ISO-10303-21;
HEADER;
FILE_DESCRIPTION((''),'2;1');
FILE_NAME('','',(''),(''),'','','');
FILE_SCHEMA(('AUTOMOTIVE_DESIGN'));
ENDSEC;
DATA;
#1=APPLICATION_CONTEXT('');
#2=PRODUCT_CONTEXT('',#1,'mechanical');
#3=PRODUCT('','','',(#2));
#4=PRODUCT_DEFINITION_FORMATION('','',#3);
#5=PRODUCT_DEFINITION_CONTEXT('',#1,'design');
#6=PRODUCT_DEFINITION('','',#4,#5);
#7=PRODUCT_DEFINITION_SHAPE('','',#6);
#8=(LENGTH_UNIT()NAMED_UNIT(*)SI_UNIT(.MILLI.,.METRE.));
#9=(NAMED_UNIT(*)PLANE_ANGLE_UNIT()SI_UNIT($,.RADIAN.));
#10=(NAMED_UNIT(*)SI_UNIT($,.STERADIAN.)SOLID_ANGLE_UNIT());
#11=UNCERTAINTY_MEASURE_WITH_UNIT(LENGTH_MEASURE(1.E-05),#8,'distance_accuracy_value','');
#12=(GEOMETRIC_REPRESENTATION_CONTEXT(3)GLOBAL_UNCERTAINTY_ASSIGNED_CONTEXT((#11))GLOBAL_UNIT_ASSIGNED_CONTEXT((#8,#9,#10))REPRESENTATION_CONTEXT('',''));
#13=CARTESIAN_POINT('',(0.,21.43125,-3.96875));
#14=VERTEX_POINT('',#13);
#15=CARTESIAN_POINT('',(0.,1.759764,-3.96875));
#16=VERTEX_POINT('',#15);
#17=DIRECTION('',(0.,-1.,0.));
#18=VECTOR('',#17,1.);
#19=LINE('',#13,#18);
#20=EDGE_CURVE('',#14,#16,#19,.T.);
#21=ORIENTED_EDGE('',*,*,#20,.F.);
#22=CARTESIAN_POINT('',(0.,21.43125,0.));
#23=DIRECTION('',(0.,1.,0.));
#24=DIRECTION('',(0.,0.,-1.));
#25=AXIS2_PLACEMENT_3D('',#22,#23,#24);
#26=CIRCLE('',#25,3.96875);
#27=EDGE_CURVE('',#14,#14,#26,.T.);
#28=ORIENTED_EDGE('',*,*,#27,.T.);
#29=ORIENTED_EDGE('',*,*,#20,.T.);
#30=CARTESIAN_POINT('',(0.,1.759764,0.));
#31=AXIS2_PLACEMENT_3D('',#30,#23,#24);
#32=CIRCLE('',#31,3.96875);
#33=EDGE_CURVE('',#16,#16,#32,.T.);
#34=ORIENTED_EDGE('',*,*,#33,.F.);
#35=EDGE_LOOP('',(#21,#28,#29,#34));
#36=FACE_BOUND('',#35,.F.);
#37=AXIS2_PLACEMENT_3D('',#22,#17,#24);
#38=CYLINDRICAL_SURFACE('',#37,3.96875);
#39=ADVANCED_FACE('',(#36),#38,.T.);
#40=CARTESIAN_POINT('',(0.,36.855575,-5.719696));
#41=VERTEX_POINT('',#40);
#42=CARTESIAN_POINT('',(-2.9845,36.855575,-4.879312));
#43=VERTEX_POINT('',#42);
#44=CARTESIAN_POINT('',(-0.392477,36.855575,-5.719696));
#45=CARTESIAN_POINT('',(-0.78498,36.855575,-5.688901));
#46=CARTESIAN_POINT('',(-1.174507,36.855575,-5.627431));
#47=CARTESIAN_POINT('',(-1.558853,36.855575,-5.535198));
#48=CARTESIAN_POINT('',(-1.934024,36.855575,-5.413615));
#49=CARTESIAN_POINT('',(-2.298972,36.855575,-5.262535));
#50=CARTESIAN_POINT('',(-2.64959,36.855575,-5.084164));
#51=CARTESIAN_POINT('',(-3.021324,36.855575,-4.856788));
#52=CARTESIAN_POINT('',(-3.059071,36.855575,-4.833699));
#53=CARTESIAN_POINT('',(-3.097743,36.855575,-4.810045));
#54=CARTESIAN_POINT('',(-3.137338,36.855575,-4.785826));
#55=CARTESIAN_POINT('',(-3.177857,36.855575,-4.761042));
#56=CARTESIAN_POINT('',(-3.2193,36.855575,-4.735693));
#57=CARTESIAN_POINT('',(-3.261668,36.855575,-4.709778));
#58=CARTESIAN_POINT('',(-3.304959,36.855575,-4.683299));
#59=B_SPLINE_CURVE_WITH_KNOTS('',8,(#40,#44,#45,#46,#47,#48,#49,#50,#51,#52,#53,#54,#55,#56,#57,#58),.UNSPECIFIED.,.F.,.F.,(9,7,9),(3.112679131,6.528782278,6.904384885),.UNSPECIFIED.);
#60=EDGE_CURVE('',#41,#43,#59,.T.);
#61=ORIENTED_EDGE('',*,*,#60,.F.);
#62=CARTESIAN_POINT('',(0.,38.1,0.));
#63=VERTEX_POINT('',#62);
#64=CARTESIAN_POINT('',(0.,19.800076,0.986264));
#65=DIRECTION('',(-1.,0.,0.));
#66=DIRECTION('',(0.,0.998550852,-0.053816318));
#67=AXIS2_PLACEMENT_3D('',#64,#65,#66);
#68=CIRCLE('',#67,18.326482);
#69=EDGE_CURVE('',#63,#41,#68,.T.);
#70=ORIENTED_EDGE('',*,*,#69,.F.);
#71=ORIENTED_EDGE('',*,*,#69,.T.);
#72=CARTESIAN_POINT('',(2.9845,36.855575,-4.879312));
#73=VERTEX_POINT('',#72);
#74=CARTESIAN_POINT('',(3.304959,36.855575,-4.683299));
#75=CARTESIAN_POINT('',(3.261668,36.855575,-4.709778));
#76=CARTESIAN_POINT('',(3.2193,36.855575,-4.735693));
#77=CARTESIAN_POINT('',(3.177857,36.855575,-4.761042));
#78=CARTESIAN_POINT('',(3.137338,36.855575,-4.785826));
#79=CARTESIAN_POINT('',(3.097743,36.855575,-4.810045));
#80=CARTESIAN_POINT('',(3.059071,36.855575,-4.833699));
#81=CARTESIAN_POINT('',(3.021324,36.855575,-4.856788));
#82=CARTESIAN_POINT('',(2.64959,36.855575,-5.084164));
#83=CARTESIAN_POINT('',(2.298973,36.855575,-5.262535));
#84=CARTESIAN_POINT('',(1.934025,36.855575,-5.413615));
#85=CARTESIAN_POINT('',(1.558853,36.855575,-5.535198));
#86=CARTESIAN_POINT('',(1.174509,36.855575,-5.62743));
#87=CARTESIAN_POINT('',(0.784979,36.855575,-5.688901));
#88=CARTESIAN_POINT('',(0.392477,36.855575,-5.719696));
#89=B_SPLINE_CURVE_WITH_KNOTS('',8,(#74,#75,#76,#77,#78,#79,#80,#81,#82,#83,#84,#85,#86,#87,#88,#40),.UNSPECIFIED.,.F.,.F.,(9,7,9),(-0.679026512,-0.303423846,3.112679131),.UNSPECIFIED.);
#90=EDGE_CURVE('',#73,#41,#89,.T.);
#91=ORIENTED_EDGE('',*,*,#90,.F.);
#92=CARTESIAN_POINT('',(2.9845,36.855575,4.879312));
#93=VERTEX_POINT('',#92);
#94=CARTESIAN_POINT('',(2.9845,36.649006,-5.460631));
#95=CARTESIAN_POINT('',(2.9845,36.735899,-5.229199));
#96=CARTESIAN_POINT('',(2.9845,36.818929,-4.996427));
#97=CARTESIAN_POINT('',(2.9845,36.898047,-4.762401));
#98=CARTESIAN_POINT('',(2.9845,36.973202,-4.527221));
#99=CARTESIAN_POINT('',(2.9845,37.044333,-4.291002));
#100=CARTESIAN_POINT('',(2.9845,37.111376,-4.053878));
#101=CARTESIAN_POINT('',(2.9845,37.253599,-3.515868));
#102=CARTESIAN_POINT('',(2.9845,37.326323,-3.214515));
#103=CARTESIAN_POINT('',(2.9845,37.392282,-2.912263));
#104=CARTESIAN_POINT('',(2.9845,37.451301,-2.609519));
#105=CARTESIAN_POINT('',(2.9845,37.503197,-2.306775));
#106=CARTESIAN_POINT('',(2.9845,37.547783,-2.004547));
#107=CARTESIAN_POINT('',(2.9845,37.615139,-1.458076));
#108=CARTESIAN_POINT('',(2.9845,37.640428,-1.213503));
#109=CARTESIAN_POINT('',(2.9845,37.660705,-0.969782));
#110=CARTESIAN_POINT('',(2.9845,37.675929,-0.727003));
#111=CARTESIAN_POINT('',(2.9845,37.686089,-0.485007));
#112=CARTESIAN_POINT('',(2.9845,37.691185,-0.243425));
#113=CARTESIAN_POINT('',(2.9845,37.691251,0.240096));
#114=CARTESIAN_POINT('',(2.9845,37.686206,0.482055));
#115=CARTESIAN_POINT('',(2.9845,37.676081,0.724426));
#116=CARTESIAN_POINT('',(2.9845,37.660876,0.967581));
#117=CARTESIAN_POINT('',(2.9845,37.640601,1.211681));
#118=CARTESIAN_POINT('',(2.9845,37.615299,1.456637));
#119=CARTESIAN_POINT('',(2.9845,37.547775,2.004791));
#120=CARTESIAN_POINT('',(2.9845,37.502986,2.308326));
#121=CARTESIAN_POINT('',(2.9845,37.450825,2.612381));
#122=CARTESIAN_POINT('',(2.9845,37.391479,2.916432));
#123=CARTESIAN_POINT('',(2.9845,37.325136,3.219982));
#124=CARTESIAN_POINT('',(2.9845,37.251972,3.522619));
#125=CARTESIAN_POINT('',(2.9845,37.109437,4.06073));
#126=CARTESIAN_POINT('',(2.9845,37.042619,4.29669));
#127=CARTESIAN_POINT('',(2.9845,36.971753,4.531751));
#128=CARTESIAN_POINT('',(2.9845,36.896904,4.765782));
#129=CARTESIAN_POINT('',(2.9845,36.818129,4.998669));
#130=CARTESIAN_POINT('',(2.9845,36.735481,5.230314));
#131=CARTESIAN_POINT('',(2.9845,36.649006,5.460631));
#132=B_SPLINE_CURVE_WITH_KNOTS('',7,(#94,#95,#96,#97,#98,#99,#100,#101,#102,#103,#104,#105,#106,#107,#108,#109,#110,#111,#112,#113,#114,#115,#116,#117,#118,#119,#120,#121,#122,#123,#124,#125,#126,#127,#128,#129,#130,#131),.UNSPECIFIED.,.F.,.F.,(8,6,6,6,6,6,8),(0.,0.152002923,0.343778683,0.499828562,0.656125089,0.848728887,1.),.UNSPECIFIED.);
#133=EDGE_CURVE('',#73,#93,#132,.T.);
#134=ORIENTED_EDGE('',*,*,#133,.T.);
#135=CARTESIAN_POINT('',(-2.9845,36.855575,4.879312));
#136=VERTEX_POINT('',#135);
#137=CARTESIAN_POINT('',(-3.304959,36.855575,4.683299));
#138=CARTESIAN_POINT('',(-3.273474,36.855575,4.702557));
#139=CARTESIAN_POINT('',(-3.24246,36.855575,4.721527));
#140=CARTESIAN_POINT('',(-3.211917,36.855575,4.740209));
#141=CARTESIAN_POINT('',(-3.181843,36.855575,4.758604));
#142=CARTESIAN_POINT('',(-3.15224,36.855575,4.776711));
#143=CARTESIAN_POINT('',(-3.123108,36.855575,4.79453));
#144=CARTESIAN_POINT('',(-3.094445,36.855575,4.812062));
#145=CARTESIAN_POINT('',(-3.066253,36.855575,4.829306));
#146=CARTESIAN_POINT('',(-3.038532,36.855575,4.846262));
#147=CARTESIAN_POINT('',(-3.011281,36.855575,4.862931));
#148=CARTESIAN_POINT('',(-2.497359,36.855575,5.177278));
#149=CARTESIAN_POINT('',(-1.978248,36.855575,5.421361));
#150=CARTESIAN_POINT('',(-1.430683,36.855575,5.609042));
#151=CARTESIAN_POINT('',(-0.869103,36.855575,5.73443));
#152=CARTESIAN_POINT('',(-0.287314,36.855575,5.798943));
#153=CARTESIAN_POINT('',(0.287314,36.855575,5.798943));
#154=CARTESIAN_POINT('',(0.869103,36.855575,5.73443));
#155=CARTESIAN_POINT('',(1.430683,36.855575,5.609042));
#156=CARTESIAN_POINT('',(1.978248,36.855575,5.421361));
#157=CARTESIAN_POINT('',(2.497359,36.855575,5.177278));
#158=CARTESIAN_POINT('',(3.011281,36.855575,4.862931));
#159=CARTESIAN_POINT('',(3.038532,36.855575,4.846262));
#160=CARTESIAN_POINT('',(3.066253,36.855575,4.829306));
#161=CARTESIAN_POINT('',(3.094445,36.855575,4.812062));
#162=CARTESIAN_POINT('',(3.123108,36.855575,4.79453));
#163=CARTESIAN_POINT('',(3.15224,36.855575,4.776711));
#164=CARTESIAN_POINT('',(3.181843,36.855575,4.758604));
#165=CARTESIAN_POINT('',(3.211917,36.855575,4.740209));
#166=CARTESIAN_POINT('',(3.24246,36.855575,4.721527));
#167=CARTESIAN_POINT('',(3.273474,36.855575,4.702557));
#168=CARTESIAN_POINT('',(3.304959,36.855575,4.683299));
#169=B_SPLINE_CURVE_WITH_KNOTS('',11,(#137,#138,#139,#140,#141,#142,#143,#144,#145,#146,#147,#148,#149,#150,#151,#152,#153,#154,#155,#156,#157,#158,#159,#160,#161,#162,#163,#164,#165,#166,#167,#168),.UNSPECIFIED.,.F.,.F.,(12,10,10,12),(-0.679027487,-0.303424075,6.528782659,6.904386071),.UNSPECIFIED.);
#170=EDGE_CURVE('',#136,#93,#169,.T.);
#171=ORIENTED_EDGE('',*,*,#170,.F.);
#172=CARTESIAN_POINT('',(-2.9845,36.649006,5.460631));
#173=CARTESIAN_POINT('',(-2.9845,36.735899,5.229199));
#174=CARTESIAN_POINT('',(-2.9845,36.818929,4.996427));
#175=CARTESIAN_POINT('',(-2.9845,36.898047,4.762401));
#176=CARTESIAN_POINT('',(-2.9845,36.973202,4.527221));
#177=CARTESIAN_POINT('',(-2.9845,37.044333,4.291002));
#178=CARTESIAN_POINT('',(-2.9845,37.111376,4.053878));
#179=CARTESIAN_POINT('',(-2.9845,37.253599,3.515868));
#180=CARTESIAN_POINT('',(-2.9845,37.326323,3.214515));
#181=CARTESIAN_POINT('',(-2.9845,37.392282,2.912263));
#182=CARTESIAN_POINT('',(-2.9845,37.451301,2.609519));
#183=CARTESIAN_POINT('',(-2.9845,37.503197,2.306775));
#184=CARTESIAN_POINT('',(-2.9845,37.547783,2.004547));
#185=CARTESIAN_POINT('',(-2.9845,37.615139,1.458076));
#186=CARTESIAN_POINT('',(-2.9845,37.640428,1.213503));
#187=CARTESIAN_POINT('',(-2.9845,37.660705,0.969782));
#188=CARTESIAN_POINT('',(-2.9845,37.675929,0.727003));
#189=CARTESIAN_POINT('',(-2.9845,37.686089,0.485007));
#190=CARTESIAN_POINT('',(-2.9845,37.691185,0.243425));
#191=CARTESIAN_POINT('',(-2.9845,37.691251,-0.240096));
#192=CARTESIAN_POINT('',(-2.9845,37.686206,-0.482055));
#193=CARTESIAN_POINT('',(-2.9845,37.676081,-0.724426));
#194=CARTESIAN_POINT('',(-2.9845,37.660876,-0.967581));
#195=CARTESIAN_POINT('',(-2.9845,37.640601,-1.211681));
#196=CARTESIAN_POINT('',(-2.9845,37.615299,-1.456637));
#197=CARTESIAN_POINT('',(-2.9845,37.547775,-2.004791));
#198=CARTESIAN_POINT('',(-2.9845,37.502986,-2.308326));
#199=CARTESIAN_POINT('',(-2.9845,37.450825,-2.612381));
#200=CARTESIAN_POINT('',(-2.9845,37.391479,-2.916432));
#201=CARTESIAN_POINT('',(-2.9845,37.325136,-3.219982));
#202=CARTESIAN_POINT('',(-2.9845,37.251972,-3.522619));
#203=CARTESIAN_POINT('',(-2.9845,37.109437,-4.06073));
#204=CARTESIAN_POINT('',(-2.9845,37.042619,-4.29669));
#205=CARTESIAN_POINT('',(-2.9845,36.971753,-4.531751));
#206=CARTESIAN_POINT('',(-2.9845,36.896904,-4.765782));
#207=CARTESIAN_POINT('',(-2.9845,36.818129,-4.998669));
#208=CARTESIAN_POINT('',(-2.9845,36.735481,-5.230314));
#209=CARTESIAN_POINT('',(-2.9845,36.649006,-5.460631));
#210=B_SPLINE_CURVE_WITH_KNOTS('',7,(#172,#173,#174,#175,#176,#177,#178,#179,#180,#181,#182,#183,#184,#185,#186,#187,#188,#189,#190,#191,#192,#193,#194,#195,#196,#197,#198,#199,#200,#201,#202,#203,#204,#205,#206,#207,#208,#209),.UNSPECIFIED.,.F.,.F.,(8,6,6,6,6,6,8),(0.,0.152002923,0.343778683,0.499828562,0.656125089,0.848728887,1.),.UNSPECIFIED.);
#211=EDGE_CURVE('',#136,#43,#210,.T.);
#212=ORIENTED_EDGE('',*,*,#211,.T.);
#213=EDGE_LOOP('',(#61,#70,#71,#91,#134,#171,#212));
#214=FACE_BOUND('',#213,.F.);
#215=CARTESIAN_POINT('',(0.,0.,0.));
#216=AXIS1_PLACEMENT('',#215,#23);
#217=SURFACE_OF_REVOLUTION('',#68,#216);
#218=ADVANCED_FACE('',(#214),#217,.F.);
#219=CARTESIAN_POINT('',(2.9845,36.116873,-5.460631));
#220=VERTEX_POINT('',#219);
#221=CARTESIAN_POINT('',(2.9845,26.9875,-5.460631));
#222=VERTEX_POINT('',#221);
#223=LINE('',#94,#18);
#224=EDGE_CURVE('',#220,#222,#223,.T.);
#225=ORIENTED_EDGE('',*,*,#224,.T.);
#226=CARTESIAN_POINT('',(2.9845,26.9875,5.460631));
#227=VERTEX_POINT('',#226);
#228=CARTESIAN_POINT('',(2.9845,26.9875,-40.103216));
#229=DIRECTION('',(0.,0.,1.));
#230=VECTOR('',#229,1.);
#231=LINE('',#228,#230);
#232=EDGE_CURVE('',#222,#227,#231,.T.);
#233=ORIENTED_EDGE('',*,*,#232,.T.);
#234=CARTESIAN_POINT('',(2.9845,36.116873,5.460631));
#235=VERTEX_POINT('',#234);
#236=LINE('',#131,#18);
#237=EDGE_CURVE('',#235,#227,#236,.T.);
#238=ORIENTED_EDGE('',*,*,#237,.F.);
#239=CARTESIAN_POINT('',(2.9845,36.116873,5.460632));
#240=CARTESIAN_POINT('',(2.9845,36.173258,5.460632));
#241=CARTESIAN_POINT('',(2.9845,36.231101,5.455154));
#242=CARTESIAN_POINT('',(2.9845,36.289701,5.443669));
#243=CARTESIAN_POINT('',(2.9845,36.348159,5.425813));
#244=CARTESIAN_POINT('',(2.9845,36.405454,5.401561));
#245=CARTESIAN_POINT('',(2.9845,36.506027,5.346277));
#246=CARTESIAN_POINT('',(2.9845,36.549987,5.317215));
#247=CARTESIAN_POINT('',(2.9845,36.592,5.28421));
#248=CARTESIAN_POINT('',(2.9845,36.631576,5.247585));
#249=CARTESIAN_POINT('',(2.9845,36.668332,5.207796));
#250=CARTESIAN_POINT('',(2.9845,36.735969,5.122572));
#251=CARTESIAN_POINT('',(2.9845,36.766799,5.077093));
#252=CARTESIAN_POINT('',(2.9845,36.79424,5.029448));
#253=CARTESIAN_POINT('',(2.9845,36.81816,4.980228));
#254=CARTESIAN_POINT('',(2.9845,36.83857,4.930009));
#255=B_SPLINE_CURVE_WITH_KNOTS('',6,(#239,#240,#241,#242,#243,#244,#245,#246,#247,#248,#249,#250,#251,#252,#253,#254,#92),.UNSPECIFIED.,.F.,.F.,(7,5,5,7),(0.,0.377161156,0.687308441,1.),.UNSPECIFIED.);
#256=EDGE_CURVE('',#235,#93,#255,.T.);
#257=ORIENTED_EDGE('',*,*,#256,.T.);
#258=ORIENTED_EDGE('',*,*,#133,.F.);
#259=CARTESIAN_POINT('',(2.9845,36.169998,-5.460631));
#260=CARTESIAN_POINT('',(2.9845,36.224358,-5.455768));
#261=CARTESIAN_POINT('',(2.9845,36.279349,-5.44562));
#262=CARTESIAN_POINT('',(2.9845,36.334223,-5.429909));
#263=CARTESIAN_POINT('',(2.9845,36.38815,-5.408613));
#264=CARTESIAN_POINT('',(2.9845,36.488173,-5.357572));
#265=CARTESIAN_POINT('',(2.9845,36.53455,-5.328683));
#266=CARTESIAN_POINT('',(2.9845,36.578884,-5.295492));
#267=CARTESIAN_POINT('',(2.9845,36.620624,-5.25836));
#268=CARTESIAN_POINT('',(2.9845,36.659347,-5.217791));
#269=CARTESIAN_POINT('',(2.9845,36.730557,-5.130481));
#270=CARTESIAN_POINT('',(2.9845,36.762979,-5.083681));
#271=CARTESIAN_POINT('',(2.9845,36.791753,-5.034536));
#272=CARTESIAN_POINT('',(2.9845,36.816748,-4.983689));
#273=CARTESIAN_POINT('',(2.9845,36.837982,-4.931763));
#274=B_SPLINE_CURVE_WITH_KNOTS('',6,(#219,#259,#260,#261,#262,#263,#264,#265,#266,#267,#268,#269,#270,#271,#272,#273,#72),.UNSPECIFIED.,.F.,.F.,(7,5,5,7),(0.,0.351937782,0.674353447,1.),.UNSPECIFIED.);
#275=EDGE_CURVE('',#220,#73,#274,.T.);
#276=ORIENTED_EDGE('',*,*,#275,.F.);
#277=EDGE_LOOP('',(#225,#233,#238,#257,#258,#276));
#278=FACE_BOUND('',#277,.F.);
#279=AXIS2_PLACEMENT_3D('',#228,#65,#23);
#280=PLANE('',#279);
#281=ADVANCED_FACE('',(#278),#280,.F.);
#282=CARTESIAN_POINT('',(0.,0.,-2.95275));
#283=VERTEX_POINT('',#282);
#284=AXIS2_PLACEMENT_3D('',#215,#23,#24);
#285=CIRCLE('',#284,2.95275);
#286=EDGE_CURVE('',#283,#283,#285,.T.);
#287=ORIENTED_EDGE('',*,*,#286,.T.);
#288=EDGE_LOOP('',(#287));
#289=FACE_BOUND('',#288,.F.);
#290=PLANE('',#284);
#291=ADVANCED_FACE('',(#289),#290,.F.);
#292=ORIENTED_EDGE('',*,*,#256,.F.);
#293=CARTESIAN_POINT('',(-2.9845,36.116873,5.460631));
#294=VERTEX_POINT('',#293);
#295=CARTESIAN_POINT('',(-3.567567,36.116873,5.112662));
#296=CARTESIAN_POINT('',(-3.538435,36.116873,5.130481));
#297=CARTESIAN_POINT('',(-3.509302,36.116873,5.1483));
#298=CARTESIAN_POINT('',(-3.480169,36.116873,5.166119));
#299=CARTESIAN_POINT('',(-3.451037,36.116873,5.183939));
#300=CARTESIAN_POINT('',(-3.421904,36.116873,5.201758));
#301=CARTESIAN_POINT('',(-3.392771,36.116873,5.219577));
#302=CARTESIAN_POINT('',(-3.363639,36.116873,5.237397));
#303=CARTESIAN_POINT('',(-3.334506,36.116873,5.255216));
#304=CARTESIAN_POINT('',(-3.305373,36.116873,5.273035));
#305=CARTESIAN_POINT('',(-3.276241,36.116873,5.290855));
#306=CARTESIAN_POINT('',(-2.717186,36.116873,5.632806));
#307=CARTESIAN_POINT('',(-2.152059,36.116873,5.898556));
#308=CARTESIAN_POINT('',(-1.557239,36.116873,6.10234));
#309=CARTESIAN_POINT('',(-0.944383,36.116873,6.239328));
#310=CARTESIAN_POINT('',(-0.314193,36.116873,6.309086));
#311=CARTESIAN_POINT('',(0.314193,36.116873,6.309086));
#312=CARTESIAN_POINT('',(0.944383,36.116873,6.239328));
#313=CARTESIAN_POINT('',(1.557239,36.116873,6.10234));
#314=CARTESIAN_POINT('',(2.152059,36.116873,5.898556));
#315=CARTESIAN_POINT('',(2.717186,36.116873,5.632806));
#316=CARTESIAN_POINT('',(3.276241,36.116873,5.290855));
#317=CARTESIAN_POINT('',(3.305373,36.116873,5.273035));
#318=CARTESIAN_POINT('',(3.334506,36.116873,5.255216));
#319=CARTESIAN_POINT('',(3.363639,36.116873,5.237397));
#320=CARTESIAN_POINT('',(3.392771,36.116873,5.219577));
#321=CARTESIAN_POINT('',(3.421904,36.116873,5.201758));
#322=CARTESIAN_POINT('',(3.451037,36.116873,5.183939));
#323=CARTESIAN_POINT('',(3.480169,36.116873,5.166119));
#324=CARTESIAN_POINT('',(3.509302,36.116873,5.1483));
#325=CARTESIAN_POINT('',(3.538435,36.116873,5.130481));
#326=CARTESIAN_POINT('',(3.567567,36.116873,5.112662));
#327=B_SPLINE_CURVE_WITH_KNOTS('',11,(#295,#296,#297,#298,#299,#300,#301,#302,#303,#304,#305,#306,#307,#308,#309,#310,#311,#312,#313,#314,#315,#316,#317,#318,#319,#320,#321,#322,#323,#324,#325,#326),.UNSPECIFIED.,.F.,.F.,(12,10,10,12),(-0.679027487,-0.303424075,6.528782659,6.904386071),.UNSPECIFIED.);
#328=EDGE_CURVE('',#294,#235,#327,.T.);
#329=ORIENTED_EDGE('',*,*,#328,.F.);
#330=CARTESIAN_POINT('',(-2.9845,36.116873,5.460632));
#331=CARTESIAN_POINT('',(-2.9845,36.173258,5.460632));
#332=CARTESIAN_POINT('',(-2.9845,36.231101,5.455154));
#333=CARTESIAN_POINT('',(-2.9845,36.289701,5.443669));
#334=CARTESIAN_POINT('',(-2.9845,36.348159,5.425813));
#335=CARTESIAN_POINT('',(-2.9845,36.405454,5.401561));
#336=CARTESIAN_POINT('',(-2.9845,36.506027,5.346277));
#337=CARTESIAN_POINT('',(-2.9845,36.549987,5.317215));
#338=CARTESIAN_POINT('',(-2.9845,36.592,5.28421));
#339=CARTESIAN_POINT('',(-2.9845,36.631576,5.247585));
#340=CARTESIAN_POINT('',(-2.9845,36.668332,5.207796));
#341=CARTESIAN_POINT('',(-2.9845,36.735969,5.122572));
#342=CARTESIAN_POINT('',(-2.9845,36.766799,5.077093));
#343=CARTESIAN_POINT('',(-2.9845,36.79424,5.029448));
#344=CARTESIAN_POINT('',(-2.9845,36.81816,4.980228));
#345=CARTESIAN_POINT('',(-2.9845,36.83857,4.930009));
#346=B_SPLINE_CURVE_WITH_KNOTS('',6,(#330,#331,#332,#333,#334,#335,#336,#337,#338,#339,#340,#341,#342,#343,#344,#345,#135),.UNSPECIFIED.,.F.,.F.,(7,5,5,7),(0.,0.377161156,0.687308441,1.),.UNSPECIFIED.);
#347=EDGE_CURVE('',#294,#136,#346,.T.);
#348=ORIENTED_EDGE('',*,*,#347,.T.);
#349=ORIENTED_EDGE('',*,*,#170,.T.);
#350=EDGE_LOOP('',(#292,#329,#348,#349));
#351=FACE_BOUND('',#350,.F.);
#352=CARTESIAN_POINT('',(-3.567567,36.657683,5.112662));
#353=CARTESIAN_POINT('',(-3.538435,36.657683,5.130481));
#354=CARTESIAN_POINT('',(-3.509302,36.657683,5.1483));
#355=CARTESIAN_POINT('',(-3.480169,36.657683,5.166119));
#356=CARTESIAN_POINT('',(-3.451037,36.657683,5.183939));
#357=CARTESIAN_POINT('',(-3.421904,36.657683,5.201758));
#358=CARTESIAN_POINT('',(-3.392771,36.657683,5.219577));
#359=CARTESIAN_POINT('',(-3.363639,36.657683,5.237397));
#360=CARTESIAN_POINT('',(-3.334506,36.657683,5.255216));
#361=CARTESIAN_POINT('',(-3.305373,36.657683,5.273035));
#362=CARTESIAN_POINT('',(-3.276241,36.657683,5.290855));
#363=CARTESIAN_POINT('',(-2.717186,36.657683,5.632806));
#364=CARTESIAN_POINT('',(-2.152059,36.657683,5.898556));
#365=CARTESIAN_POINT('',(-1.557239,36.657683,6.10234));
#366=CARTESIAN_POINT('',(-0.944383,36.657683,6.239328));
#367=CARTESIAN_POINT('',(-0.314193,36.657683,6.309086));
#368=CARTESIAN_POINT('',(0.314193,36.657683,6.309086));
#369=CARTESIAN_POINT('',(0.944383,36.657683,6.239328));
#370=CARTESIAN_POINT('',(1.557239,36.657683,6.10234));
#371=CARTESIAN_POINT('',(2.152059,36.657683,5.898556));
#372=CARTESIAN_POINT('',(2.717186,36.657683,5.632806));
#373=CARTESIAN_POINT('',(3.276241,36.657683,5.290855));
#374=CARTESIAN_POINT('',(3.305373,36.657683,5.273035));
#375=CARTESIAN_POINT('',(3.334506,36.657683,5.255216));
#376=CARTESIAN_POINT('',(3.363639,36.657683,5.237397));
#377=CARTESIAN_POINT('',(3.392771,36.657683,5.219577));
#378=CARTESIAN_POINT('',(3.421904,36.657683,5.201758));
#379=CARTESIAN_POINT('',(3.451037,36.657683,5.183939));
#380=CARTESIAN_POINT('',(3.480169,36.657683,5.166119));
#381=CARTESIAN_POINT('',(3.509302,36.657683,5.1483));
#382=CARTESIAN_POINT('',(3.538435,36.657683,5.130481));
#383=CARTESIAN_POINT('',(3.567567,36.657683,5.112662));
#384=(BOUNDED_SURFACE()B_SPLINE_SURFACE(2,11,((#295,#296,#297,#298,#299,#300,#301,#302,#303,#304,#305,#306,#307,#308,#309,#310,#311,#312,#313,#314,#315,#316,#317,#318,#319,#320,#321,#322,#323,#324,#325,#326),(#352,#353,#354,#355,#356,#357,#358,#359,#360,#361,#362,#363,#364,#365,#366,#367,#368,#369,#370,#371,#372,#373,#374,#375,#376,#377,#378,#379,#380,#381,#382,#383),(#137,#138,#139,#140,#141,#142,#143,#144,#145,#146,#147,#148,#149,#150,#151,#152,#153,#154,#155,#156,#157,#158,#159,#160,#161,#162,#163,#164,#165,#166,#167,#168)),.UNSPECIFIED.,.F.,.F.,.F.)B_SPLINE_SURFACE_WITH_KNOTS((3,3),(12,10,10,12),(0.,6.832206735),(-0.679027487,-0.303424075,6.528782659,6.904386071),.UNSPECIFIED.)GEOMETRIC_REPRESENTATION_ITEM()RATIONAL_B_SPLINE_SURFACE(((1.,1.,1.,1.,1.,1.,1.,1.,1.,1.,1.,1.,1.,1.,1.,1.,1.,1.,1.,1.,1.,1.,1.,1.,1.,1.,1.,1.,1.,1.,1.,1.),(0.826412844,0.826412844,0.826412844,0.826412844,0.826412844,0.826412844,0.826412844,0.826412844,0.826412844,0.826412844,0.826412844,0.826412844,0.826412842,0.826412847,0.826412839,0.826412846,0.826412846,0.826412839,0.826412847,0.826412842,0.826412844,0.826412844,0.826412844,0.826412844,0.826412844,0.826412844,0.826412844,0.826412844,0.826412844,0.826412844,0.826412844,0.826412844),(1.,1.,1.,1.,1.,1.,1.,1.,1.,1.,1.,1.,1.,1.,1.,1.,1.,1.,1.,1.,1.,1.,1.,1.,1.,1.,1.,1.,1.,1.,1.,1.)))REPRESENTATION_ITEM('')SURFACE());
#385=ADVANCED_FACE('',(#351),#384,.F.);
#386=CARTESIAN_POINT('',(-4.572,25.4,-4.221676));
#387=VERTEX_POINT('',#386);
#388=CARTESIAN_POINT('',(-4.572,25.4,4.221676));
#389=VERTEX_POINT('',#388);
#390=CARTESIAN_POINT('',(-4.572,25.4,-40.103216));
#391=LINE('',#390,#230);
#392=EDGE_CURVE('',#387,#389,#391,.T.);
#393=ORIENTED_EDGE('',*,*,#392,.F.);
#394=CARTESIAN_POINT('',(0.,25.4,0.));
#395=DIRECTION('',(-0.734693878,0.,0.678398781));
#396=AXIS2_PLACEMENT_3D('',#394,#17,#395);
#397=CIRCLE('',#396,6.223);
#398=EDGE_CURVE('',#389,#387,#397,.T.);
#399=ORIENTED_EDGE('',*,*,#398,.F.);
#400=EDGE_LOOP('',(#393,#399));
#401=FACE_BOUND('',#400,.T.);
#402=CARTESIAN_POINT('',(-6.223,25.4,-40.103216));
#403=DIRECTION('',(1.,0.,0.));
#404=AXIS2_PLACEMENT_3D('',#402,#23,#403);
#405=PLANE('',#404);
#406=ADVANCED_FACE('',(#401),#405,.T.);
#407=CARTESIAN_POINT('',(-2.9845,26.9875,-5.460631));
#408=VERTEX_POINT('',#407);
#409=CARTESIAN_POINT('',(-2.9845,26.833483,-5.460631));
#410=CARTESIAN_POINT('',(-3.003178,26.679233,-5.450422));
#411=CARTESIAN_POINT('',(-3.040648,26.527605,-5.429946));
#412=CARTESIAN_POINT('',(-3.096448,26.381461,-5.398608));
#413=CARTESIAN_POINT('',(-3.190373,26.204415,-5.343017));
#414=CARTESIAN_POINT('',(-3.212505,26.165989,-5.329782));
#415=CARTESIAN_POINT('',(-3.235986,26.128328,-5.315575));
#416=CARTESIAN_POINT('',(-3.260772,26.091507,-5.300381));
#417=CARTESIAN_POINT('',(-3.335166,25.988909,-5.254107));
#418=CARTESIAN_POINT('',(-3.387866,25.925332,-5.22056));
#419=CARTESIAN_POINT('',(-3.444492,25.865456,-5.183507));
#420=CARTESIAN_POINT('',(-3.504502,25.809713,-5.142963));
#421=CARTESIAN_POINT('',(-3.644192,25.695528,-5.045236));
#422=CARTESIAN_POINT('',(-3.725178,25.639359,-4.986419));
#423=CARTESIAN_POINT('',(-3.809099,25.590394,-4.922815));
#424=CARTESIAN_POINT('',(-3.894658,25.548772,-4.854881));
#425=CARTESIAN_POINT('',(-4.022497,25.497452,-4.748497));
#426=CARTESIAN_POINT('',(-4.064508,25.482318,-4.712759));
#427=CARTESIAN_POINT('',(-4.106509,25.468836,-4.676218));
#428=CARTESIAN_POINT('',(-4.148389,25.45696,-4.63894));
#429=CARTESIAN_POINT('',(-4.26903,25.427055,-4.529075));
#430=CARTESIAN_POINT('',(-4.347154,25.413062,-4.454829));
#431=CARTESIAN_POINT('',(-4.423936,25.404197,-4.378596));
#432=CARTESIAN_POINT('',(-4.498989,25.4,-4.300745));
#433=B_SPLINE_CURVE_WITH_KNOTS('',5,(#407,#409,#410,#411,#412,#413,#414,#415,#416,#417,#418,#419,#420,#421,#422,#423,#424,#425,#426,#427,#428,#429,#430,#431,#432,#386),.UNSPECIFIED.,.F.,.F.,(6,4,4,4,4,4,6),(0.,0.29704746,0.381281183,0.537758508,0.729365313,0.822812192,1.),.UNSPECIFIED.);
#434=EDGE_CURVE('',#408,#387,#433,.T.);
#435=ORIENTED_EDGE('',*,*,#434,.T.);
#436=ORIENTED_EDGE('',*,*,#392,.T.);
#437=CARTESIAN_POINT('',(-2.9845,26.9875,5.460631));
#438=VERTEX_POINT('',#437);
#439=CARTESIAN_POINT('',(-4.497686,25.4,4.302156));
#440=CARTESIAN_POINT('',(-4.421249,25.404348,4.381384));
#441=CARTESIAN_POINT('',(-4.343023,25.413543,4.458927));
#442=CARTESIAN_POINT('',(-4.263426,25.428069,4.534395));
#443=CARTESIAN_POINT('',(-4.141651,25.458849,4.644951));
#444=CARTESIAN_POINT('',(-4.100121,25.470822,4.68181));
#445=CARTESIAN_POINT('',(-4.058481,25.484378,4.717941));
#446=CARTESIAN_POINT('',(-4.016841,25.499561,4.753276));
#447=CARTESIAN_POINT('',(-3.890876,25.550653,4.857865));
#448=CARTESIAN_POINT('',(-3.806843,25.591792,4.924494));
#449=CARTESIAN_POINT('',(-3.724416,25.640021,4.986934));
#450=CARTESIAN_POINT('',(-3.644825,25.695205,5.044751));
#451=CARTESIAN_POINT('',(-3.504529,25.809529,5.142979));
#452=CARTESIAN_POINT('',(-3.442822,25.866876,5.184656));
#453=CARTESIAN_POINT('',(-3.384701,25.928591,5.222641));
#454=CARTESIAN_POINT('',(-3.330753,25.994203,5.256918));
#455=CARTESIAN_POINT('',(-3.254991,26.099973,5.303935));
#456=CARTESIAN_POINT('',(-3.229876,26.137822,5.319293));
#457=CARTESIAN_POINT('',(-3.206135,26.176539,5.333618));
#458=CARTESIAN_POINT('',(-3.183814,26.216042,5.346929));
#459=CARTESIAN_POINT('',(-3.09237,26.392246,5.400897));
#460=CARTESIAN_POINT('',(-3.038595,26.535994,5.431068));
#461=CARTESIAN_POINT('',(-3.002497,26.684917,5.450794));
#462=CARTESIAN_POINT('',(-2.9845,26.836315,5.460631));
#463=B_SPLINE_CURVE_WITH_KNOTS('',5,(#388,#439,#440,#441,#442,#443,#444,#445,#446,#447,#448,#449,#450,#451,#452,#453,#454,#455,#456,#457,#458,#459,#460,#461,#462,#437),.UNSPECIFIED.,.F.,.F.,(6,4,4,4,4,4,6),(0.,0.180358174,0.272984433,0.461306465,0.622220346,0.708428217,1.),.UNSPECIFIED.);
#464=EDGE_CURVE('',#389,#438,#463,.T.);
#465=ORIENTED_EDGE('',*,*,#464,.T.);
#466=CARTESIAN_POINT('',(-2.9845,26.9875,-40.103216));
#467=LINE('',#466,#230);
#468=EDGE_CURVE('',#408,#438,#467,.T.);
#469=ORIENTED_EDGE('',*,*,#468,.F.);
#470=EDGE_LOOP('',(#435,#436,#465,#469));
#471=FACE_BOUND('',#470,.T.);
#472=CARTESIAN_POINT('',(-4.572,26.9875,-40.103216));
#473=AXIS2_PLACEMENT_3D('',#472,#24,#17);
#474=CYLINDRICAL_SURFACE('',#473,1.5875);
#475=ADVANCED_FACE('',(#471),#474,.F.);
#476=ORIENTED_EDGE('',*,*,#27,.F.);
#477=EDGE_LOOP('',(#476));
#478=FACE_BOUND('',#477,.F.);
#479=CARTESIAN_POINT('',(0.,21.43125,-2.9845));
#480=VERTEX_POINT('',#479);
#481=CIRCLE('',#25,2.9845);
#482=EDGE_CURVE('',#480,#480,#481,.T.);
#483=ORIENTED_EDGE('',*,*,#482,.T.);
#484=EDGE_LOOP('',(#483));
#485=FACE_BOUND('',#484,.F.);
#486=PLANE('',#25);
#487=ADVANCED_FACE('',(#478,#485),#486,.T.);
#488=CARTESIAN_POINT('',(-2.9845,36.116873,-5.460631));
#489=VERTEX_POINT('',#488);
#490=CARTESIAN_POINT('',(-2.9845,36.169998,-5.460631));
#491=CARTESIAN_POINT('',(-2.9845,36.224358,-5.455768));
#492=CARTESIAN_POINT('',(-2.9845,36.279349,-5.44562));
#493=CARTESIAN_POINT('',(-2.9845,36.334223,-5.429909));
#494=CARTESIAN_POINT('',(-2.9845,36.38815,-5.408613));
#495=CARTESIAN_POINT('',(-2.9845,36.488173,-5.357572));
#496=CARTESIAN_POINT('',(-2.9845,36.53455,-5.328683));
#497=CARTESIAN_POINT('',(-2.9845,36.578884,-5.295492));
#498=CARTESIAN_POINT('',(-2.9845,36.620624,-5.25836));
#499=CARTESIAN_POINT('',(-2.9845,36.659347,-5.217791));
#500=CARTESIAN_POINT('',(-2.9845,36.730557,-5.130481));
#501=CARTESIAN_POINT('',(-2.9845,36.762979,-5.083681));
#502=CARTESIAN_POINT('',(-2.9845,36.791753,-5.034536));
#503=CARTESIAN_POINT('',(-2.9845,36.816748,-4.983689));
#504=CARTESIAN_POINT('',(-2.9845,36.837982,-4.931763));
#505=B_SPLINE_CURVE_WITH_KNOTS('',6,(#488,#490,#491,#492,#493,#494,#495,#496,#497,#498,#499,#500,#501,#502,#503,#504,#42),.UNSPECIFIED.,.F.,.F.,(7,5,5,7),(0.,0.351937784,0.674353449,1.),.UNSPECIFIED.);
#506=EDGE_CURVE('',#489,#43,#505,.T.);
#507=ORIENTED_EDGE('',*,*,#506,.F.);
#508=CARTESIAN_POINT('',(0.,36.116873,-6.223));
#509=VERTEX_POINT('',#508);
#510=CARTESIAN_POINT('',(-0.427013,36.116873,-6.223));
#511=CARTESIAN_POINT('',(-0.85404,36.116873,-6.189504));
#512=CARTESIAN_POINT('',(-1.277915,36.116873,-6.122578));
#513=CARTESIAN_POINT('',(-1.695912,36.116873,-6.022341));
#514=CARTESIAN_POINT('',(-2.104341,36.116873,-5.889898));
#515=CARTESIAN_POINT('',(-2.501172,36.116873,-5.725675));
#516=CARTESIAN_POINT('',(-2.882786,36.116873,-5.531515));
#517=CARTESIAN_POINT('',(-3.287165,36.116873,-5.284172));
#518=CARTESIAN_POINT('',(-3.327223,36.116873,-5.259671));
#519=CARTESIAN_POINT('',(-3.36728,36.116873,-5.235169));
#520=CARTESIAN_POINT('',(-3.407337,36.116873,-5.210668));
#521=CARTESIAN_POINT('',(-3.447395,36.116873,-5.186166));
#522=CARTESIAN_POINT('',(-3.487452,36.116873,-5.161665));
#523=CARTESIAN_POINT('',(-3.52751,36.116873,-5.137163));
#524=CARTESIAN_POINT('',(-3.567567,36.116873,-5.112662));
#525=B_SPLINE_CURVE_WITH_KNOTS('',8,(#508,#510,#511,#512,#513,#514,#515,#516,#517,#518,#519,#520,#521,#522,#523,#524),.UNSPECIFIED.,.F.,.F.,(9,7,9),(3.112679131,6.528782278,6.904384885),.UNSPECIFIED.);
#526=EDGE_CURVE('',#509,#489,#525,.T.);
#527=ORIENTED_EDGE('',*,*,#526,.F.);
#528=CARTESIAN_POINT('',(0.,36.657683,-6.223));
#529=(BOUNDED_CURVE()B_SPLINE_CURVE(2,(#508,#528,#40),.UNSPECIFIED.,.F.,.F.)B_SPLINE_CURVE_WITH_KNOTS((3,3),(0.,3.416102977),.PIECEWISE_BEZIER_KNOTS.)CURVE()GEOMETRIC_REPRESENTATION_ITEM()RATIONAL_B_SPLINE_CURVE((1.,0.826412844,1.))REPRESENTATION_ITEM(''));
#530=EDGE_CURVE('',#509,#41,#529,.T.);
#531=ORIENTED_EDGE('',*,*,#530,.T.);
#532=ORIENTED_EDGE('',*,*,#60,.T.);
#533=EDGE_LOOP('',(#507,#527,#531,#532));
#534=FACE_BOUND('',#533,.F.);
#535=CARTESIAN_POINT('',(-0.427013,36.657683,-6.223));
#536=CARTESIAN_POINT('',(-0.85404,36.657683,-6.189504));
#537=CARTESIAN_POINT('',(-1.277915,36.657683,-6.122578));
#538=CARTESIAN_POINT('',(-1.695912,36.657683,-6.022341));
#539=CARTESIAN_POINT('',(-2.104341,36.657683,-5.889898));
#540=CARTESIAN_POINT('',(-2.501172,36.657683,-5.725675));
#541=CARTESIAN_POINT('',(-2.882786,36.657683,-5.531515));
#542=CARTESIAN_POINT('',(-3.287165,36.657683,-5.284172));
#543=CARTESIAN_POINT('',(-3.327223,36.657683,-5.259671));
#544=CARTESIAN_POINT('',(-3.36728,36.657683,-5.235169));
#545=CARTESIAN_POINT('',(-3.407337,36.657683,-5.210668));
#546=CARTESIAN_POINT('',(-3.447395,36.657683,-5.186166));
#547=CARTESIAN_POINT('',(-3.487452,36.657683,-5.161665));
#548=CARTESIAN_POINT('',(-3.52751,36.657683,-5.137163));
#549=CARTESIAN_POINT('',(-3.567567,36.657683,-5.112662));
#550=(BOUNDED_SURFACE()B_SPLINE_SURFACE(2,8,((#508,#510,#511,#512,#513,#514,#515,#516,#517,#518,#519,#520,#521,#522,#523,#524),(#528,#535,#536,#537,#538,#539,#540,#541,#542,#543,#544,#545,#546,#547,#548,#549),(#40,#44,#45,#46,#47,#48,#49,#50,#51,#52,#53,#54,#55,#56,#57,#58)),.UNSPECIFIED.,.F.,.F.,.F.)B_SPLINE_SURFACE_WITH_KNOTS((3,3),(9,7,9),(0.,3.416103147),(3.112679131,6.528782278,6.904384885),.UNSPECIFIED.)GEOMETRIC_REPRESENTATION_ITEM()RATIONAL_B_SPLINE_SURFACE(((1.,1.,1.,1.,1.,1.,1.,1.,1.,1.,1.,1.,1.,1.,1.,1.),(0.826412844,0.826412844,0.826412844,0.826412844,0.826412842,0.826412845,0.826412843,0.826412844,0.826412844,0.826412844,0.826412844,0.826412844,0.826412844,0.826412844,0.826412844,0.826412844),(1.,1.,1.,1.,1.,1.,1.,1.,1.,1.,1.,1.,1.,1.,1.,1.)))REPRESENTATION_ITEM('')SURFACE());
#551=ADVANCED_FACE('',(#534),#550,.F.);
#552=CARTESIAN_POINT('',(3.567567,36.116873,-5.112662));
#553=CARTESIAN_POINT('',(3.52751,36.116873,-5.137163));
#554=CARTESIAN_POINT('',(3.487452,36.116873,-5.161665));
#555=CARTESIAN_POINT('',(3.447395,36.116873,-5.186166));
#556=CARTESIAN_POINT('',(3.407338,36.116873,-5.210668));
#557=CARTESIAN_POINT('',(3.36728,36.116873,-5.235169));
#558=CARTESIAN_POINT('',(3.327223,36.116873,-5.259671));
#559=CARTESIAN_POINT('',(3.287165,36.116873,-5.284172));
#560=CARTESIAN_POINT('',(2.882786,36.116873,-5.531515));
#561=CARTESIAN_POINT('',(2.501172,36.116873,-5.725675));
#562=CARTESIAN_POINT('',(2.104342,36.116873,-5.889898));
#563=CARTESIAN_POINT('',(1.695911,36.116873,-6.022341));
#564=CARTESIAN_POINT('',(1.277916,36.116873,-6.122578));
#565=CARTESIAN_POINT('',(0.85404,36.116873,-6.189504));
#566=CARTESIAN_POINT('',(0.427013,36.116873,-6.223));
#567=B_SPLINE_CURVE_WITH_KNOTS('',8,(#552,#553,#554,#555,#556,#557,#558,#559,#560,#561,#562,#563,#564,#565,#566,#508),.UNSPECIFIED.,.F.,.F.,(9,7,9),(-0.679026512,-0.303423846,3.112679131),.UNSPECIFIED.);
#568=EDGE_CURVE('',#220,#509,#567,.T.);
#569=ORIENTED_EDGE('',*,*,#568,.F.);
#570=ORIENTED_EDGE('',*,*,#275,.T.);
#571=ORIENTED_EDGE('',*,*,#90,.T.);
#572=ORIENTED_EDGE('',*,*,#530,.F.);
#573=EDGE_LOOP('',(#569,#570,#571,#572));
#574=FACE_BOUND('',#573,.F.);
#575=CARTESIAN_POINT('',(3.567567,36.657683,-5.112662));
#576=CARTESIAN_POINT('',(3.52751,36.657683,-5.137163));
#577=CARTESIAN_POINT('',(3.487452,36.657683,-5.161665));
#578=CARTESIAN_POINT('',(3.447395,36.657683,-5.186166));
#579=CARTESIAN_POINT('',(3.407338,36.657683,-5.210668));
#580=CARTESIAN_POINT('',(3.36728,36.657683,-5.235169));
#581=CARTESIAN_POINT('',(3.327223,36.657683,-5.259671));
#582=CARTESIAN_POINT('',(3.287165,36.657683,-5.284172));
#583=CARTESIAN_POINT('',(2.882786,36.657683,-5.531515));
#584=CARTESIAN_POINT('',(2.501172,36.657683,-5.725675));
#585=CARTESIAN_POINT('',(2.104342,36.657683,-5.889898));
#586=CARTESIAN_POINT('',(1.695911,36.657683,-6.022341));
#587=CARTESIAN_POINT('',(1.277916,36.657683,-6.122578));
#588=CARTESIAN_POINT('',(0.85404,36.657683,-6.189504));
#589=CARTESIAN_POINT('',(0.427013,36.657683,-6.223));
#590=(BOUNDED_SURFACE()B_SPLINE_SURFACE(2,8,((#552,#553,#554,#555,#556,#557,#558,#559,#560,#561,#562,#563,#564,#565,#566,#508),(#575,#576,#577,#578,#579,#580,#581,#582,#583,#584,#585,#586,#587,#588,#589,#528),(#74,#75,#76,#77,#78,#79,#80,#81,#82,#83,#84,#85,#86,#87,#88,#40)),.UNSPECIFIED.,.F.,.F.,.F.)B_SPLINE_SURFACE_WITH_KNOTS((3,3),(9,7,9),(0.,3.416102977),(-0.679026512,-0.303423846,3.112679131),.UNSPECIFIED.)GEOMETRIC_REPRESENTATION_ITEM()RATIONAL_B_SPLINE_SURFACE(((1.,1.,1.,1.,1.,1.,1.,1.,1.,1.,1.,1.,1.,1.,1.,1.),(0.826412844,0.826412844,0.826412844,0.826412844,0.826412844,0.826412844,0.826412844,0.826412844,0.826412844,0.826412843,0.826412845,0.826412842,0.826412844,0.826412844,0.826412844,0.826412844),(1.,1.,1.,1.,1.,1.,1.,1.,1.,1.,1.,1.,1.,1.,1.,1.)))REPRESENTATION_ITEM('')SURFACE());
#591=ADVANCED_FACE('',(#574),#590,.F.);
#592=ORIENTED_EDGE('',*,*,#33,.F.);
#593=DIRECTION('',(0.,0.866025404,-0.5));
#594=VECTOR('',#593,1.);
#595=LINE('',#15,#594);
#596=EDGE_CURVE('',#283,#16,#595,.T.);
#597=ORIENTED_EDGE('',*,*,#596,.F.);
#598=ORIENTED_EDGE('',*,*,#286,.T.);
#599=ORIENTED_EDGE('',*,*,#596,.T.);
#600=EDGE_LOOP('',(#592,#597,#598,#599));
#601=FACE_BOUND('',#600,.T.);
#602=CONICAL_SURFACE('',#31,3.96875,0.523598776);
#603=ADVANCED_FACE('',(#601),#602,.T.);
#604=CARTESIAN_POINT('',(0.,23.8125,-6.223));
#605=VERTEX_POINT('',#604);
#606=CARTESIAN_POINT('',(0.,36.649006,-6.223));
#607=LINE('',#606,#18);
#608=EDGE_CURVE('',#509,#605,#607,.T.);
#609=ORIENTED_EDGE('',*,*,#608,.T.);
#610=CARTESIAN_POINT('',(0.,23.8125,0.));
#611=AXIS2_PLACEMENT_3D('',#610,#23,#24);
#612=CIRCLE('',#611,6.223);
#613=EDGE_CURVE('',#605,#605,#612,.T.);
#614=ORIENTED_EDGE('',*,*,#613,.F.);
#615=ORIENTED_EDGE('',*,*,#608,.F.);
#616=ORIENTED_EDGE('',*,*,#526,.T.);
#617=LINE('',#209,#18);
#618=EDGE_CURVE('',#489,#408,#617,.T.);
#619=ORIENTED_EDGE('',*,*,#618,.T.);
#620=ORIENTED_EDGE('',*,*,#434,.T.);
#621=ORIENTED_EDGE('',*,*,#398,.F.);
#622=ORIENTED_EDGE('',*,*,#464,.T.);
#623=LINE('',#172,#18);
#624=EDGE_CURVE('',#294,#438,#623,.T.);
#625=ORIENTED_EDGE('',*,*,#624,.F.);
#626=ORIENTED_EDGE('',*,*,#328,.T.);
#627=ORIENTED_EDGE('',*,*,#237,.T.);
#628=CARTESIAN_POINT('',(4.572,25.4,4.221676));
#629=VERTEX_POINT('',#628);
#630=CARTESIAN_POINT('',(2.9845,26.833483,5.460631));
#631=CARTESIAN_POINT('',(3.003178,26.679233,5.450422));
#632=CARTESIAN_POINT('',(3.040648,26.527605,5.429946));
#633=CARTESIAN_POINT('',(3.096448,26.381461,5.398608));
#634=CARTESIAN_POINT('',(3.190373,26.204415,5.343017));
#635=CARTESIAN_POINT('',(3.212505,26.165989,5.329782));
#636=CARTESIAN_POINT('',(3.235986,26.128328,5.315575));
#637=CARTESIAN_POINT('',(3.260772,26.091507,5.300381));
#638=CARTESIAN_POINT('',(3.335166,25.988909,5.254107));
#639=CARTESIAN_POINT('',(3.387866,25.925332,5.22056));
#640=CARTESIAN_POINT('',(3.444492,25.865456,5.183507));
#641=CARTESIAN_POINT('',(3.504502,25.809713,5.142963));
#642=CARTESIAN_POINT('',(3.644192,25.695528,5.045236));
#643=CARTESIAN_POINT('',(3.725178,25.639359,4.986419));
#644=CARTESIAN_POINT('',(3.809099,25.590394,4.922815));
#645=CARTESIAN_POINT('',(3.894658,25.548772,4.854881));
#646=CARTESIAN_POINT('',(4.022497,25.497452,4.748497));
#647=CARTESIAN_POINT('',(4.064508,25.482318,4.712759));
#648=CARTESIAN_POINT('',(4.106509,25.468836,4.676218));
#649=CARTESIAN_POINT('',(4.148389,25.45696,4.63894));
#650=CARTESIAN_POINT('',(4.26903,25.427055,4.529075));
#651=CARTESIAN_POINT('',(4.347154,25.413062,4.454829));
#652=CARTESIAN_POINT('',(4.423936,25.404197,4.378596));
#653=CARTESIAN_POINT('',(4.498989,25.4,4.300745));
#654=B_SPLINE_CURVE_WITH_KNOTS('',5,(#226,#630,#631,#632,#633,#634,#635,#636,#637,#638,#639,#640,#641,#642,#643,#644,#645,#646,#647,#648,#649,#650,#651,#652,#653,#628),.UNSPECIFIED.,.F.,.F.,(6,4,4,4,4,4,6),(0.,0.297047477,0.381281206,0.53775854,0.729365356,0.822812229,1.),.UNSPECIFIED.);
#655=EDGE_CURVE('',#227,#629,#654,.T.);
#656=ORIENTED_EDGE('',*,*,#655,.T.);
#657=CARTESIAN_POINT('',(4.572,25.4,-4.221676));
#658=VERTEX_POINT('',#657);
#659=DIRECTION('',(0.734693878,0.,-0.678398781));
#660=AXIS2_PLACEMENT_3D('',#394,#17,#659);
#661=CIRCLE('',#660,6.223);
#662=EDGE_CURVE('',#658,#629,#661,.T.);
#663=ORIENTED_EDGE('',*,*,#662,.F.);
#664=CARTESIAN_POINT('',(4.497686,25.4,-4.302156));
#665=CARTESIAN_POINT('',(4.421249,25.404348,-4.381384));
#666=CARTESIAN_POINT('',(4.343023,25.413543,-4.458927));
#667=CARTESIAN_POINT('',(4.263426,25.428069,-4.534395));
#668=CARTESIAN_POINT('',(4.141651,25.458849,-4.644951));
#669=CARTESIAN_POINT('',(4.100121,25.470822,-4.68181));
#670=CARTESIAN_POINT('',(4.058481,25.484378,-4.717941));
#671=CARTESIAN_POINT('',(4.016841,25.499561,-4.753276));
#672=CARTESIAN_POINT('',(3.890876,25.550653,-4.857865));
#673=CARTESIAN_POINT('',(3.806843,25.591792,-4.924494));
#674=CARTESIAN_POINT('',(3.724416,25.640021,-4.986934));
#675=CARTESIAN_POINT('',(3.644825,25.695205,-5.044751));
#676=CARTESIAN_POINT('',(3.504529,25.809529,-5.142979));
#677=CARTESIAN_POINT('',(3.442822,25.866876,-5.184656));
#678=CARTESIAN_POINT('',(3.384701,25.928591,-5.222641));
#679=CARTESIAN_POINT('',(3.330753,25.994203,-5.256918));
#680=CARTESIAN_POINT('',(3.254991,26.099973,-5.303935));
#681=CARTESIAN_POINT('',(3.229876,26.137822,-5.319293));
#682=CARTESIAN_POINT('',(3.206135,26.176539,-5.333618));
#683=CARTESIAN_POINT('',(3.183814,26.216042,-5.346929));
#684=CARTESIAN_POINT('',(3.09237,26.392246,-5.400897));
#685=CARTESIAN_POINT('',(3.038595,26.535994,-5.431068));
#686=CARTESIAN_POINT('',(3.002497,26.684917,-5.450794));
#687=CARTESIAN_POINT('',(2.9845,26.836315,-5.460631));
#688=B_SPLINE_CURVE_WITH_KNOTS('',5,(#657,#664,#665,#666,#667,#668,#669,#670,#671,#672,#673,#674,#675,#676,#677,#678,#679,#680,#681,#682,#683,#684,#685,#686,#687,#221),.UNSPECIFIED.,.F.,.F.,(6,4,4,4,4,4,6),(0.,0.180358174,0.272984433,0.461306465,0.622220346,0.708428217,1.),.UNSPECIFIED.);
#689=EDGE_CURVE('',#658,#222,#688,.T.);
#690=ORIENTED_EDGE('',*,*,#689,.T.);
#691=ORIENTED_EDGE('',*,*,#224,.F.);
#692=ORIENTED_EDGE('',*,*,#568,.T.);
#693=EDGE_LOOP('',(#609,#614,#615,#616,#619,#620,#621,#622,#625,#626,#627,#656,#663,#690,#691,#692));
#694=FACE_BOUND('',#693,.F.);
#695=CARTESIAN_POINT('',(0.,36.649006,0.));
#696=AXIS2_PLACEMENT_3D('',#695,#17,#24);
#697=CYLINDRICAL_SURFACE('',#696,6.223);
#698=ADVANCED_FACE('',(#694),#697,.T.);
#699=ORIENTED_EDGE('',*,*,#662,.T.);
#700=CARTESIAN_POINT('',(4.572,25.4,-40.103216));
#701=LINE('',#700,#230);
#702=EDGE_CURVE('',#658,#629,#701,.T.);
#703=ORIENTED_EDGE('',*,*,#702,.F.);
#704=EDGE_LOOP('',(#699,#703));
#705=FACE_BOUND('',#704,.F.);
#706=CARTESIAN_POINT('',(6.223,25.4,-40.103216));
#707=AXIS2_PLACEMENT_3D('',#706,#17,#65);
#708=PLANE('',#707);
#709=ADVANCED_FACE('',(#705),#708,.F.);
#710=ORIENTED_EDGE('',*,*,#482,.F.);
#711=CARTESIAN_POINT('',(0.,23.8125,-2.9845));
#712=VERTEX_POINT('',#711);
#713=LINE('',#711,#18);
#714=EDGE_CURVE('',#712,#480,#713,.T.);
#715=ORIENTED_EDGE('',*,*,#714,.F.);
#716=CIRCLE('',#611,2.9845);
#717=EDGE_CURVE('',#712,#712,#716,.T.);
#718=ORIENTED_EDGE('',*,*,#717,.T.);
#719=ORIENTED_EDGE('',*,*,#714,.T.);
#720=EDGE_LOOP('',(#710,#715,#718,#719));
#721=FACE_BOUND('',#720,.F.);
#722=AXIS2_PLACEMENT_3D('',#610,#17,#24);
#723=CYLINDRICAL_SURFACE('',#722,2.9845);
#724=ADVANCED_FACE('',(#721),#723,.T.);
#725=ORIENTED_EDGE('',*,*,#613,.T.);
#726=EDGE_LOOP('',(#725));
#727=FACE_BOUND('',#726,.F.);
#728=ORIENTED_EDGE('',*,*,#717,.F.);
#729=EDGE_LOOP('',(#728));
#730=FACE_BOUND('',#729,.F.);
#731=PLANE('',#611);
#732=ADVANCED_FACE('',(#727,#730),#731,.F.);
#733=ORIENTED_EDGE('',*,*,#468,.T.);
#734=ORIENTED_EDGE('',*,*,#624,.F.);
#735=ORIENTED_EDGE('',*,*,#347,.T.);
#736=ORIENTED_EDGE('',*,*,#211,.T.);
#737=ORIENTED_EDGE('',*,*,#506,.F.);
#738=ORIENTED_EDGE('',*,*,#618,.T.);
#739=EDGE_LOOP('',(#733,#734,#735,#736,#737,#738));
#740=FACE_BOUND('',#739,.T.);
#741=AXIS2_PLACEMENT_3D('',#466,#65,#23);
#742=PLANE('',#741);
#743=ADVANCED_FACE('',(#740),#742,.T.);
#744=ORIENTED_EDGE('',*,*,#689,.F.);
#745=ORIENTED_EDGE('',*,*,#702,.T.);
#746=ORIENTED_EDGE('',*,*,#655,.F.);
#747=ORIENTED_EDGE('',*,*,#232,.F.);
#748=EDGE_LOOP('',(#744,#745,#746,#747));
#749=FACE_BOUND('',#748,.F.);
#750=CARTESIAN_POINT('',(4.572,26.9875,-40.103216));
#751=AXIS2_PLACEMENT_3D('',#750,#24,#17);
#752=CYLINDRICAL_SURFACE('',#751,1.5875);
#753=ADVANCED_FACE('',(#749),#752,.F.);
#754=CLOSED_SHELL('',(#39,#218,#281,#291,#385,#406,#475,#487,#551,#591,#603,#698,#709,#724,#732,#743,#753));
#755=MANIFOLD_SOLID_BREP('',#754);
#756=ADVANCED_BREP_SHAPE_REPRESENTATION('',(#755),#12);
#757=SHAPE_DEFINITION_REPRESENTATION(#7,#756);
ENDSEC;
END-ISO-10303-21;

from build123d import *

# Parameters (mm, degrees)
CUT_EXTRUDE1_DEPTH      = 40.103215572
CUT_EXTRUDE1_DEPTH_BACK = 40.103215572
CHAMFER1_SIZE           = 1.016
CHAMFER1_SIZE2          = 1.75976362
FILLET1_R               = 0.79375


with BuildPart() as part:
    # Sketch1 → Revolve1 (revolve)
    with BuildSketch(Plane.XY, mode=Mode.PRIVATE) as revolve1_sk:
        with BuildLine():
            Line((6.223, 36.649006265), (6.223, 23.8125))
            Line((6.223, 23.8125), (2.9845, 23.8125))
            Line((2.9845, 23.8125), (2.9845, 21.43125))
            Line((2.9845, 21.43125), (3.96875, 21.43125))
            Line((3.96875, 21.43125), (3.96875, 0))
            Line((3.96875, 0), (0, 0))
            Line((0, 0), (0, 38.1))
            ThreePointArc((0, 38.1), (3.175227984, 37.647818746), (6.223, 36.649006265))
        make_face()
    revolve(revolve1_sk.sketch.rotate(Axis((0, 0, 0), (0, 1, 0)), 90), axis=Axis((0, 0, 0), (0, 1, 0)))

    # Sketch2 → Cut-Extrude1 (cut, two sides: drawn at the far end of the back side and taken through both)
    with BuildSketch(Plane.XY.offset(-CUT_EXTRUDE1_DEPTH_BACK)):
        with BuildLine():
            Line((-6.223, 25.4), (-4.572, 25.4))
            ThreePointArc((-4.572, 25.4), (-3.449467985, 25.864967985), (-2.9845, 26.9875))
            Line((-2.9845, 26.9875), (-2.9845, 38.1))
            Line((-2.9845, 38.1), (-6.223, 38.1))
            Line((-6.223, 38.1), (-6.223, 25.4))
        make_face()
        with BuildLine():
            Line((6.223, 38.1), (6.223, 25.4))
            Line((6.223, 25.4), (4.572, 25.4))
            ThreePointArc((4.572, 25.4), (3.449467985, 25.864967985), (2.9845, 26.9875))
            Line((2.9845, 26.9875), (2.9845, 38.1))
            Line((2.9845, 38.1), (6.223, 38.1))
        make_face()
    extrude(amount=CUT_EXTRUDE1_DEPTH + CUT_EXTRUDE1_DEPTH_BACK, mode=Mode.SUBTRACT)

    # Chamfer1
    chamfer1_edges = [part.edges().sort_by_distance(p)[0] for p in [
        (0, 0, 3.96875),
    ]]
    chamfer1_side = [part.faces().sort_by_distance(p)[0] for p in [
        (0, 0, 0),
    ]]
    chamfer(chamfer1_edges, length=CHAMFER1_SIZE, length2=CHAMFER1_SIZE2, reference=chamfer1_side[0])

    # Fillet1
    fillet1_edges = [part.edges().sort_by_distance(p)[0] for p in [
        (1.540166147, 36.649006265, -6.029396092),
        (0, 36.649006265, 6.223),
    ]]
    fillet(fillet1_edges, radius=FILLET1_R)


solid = part.part
